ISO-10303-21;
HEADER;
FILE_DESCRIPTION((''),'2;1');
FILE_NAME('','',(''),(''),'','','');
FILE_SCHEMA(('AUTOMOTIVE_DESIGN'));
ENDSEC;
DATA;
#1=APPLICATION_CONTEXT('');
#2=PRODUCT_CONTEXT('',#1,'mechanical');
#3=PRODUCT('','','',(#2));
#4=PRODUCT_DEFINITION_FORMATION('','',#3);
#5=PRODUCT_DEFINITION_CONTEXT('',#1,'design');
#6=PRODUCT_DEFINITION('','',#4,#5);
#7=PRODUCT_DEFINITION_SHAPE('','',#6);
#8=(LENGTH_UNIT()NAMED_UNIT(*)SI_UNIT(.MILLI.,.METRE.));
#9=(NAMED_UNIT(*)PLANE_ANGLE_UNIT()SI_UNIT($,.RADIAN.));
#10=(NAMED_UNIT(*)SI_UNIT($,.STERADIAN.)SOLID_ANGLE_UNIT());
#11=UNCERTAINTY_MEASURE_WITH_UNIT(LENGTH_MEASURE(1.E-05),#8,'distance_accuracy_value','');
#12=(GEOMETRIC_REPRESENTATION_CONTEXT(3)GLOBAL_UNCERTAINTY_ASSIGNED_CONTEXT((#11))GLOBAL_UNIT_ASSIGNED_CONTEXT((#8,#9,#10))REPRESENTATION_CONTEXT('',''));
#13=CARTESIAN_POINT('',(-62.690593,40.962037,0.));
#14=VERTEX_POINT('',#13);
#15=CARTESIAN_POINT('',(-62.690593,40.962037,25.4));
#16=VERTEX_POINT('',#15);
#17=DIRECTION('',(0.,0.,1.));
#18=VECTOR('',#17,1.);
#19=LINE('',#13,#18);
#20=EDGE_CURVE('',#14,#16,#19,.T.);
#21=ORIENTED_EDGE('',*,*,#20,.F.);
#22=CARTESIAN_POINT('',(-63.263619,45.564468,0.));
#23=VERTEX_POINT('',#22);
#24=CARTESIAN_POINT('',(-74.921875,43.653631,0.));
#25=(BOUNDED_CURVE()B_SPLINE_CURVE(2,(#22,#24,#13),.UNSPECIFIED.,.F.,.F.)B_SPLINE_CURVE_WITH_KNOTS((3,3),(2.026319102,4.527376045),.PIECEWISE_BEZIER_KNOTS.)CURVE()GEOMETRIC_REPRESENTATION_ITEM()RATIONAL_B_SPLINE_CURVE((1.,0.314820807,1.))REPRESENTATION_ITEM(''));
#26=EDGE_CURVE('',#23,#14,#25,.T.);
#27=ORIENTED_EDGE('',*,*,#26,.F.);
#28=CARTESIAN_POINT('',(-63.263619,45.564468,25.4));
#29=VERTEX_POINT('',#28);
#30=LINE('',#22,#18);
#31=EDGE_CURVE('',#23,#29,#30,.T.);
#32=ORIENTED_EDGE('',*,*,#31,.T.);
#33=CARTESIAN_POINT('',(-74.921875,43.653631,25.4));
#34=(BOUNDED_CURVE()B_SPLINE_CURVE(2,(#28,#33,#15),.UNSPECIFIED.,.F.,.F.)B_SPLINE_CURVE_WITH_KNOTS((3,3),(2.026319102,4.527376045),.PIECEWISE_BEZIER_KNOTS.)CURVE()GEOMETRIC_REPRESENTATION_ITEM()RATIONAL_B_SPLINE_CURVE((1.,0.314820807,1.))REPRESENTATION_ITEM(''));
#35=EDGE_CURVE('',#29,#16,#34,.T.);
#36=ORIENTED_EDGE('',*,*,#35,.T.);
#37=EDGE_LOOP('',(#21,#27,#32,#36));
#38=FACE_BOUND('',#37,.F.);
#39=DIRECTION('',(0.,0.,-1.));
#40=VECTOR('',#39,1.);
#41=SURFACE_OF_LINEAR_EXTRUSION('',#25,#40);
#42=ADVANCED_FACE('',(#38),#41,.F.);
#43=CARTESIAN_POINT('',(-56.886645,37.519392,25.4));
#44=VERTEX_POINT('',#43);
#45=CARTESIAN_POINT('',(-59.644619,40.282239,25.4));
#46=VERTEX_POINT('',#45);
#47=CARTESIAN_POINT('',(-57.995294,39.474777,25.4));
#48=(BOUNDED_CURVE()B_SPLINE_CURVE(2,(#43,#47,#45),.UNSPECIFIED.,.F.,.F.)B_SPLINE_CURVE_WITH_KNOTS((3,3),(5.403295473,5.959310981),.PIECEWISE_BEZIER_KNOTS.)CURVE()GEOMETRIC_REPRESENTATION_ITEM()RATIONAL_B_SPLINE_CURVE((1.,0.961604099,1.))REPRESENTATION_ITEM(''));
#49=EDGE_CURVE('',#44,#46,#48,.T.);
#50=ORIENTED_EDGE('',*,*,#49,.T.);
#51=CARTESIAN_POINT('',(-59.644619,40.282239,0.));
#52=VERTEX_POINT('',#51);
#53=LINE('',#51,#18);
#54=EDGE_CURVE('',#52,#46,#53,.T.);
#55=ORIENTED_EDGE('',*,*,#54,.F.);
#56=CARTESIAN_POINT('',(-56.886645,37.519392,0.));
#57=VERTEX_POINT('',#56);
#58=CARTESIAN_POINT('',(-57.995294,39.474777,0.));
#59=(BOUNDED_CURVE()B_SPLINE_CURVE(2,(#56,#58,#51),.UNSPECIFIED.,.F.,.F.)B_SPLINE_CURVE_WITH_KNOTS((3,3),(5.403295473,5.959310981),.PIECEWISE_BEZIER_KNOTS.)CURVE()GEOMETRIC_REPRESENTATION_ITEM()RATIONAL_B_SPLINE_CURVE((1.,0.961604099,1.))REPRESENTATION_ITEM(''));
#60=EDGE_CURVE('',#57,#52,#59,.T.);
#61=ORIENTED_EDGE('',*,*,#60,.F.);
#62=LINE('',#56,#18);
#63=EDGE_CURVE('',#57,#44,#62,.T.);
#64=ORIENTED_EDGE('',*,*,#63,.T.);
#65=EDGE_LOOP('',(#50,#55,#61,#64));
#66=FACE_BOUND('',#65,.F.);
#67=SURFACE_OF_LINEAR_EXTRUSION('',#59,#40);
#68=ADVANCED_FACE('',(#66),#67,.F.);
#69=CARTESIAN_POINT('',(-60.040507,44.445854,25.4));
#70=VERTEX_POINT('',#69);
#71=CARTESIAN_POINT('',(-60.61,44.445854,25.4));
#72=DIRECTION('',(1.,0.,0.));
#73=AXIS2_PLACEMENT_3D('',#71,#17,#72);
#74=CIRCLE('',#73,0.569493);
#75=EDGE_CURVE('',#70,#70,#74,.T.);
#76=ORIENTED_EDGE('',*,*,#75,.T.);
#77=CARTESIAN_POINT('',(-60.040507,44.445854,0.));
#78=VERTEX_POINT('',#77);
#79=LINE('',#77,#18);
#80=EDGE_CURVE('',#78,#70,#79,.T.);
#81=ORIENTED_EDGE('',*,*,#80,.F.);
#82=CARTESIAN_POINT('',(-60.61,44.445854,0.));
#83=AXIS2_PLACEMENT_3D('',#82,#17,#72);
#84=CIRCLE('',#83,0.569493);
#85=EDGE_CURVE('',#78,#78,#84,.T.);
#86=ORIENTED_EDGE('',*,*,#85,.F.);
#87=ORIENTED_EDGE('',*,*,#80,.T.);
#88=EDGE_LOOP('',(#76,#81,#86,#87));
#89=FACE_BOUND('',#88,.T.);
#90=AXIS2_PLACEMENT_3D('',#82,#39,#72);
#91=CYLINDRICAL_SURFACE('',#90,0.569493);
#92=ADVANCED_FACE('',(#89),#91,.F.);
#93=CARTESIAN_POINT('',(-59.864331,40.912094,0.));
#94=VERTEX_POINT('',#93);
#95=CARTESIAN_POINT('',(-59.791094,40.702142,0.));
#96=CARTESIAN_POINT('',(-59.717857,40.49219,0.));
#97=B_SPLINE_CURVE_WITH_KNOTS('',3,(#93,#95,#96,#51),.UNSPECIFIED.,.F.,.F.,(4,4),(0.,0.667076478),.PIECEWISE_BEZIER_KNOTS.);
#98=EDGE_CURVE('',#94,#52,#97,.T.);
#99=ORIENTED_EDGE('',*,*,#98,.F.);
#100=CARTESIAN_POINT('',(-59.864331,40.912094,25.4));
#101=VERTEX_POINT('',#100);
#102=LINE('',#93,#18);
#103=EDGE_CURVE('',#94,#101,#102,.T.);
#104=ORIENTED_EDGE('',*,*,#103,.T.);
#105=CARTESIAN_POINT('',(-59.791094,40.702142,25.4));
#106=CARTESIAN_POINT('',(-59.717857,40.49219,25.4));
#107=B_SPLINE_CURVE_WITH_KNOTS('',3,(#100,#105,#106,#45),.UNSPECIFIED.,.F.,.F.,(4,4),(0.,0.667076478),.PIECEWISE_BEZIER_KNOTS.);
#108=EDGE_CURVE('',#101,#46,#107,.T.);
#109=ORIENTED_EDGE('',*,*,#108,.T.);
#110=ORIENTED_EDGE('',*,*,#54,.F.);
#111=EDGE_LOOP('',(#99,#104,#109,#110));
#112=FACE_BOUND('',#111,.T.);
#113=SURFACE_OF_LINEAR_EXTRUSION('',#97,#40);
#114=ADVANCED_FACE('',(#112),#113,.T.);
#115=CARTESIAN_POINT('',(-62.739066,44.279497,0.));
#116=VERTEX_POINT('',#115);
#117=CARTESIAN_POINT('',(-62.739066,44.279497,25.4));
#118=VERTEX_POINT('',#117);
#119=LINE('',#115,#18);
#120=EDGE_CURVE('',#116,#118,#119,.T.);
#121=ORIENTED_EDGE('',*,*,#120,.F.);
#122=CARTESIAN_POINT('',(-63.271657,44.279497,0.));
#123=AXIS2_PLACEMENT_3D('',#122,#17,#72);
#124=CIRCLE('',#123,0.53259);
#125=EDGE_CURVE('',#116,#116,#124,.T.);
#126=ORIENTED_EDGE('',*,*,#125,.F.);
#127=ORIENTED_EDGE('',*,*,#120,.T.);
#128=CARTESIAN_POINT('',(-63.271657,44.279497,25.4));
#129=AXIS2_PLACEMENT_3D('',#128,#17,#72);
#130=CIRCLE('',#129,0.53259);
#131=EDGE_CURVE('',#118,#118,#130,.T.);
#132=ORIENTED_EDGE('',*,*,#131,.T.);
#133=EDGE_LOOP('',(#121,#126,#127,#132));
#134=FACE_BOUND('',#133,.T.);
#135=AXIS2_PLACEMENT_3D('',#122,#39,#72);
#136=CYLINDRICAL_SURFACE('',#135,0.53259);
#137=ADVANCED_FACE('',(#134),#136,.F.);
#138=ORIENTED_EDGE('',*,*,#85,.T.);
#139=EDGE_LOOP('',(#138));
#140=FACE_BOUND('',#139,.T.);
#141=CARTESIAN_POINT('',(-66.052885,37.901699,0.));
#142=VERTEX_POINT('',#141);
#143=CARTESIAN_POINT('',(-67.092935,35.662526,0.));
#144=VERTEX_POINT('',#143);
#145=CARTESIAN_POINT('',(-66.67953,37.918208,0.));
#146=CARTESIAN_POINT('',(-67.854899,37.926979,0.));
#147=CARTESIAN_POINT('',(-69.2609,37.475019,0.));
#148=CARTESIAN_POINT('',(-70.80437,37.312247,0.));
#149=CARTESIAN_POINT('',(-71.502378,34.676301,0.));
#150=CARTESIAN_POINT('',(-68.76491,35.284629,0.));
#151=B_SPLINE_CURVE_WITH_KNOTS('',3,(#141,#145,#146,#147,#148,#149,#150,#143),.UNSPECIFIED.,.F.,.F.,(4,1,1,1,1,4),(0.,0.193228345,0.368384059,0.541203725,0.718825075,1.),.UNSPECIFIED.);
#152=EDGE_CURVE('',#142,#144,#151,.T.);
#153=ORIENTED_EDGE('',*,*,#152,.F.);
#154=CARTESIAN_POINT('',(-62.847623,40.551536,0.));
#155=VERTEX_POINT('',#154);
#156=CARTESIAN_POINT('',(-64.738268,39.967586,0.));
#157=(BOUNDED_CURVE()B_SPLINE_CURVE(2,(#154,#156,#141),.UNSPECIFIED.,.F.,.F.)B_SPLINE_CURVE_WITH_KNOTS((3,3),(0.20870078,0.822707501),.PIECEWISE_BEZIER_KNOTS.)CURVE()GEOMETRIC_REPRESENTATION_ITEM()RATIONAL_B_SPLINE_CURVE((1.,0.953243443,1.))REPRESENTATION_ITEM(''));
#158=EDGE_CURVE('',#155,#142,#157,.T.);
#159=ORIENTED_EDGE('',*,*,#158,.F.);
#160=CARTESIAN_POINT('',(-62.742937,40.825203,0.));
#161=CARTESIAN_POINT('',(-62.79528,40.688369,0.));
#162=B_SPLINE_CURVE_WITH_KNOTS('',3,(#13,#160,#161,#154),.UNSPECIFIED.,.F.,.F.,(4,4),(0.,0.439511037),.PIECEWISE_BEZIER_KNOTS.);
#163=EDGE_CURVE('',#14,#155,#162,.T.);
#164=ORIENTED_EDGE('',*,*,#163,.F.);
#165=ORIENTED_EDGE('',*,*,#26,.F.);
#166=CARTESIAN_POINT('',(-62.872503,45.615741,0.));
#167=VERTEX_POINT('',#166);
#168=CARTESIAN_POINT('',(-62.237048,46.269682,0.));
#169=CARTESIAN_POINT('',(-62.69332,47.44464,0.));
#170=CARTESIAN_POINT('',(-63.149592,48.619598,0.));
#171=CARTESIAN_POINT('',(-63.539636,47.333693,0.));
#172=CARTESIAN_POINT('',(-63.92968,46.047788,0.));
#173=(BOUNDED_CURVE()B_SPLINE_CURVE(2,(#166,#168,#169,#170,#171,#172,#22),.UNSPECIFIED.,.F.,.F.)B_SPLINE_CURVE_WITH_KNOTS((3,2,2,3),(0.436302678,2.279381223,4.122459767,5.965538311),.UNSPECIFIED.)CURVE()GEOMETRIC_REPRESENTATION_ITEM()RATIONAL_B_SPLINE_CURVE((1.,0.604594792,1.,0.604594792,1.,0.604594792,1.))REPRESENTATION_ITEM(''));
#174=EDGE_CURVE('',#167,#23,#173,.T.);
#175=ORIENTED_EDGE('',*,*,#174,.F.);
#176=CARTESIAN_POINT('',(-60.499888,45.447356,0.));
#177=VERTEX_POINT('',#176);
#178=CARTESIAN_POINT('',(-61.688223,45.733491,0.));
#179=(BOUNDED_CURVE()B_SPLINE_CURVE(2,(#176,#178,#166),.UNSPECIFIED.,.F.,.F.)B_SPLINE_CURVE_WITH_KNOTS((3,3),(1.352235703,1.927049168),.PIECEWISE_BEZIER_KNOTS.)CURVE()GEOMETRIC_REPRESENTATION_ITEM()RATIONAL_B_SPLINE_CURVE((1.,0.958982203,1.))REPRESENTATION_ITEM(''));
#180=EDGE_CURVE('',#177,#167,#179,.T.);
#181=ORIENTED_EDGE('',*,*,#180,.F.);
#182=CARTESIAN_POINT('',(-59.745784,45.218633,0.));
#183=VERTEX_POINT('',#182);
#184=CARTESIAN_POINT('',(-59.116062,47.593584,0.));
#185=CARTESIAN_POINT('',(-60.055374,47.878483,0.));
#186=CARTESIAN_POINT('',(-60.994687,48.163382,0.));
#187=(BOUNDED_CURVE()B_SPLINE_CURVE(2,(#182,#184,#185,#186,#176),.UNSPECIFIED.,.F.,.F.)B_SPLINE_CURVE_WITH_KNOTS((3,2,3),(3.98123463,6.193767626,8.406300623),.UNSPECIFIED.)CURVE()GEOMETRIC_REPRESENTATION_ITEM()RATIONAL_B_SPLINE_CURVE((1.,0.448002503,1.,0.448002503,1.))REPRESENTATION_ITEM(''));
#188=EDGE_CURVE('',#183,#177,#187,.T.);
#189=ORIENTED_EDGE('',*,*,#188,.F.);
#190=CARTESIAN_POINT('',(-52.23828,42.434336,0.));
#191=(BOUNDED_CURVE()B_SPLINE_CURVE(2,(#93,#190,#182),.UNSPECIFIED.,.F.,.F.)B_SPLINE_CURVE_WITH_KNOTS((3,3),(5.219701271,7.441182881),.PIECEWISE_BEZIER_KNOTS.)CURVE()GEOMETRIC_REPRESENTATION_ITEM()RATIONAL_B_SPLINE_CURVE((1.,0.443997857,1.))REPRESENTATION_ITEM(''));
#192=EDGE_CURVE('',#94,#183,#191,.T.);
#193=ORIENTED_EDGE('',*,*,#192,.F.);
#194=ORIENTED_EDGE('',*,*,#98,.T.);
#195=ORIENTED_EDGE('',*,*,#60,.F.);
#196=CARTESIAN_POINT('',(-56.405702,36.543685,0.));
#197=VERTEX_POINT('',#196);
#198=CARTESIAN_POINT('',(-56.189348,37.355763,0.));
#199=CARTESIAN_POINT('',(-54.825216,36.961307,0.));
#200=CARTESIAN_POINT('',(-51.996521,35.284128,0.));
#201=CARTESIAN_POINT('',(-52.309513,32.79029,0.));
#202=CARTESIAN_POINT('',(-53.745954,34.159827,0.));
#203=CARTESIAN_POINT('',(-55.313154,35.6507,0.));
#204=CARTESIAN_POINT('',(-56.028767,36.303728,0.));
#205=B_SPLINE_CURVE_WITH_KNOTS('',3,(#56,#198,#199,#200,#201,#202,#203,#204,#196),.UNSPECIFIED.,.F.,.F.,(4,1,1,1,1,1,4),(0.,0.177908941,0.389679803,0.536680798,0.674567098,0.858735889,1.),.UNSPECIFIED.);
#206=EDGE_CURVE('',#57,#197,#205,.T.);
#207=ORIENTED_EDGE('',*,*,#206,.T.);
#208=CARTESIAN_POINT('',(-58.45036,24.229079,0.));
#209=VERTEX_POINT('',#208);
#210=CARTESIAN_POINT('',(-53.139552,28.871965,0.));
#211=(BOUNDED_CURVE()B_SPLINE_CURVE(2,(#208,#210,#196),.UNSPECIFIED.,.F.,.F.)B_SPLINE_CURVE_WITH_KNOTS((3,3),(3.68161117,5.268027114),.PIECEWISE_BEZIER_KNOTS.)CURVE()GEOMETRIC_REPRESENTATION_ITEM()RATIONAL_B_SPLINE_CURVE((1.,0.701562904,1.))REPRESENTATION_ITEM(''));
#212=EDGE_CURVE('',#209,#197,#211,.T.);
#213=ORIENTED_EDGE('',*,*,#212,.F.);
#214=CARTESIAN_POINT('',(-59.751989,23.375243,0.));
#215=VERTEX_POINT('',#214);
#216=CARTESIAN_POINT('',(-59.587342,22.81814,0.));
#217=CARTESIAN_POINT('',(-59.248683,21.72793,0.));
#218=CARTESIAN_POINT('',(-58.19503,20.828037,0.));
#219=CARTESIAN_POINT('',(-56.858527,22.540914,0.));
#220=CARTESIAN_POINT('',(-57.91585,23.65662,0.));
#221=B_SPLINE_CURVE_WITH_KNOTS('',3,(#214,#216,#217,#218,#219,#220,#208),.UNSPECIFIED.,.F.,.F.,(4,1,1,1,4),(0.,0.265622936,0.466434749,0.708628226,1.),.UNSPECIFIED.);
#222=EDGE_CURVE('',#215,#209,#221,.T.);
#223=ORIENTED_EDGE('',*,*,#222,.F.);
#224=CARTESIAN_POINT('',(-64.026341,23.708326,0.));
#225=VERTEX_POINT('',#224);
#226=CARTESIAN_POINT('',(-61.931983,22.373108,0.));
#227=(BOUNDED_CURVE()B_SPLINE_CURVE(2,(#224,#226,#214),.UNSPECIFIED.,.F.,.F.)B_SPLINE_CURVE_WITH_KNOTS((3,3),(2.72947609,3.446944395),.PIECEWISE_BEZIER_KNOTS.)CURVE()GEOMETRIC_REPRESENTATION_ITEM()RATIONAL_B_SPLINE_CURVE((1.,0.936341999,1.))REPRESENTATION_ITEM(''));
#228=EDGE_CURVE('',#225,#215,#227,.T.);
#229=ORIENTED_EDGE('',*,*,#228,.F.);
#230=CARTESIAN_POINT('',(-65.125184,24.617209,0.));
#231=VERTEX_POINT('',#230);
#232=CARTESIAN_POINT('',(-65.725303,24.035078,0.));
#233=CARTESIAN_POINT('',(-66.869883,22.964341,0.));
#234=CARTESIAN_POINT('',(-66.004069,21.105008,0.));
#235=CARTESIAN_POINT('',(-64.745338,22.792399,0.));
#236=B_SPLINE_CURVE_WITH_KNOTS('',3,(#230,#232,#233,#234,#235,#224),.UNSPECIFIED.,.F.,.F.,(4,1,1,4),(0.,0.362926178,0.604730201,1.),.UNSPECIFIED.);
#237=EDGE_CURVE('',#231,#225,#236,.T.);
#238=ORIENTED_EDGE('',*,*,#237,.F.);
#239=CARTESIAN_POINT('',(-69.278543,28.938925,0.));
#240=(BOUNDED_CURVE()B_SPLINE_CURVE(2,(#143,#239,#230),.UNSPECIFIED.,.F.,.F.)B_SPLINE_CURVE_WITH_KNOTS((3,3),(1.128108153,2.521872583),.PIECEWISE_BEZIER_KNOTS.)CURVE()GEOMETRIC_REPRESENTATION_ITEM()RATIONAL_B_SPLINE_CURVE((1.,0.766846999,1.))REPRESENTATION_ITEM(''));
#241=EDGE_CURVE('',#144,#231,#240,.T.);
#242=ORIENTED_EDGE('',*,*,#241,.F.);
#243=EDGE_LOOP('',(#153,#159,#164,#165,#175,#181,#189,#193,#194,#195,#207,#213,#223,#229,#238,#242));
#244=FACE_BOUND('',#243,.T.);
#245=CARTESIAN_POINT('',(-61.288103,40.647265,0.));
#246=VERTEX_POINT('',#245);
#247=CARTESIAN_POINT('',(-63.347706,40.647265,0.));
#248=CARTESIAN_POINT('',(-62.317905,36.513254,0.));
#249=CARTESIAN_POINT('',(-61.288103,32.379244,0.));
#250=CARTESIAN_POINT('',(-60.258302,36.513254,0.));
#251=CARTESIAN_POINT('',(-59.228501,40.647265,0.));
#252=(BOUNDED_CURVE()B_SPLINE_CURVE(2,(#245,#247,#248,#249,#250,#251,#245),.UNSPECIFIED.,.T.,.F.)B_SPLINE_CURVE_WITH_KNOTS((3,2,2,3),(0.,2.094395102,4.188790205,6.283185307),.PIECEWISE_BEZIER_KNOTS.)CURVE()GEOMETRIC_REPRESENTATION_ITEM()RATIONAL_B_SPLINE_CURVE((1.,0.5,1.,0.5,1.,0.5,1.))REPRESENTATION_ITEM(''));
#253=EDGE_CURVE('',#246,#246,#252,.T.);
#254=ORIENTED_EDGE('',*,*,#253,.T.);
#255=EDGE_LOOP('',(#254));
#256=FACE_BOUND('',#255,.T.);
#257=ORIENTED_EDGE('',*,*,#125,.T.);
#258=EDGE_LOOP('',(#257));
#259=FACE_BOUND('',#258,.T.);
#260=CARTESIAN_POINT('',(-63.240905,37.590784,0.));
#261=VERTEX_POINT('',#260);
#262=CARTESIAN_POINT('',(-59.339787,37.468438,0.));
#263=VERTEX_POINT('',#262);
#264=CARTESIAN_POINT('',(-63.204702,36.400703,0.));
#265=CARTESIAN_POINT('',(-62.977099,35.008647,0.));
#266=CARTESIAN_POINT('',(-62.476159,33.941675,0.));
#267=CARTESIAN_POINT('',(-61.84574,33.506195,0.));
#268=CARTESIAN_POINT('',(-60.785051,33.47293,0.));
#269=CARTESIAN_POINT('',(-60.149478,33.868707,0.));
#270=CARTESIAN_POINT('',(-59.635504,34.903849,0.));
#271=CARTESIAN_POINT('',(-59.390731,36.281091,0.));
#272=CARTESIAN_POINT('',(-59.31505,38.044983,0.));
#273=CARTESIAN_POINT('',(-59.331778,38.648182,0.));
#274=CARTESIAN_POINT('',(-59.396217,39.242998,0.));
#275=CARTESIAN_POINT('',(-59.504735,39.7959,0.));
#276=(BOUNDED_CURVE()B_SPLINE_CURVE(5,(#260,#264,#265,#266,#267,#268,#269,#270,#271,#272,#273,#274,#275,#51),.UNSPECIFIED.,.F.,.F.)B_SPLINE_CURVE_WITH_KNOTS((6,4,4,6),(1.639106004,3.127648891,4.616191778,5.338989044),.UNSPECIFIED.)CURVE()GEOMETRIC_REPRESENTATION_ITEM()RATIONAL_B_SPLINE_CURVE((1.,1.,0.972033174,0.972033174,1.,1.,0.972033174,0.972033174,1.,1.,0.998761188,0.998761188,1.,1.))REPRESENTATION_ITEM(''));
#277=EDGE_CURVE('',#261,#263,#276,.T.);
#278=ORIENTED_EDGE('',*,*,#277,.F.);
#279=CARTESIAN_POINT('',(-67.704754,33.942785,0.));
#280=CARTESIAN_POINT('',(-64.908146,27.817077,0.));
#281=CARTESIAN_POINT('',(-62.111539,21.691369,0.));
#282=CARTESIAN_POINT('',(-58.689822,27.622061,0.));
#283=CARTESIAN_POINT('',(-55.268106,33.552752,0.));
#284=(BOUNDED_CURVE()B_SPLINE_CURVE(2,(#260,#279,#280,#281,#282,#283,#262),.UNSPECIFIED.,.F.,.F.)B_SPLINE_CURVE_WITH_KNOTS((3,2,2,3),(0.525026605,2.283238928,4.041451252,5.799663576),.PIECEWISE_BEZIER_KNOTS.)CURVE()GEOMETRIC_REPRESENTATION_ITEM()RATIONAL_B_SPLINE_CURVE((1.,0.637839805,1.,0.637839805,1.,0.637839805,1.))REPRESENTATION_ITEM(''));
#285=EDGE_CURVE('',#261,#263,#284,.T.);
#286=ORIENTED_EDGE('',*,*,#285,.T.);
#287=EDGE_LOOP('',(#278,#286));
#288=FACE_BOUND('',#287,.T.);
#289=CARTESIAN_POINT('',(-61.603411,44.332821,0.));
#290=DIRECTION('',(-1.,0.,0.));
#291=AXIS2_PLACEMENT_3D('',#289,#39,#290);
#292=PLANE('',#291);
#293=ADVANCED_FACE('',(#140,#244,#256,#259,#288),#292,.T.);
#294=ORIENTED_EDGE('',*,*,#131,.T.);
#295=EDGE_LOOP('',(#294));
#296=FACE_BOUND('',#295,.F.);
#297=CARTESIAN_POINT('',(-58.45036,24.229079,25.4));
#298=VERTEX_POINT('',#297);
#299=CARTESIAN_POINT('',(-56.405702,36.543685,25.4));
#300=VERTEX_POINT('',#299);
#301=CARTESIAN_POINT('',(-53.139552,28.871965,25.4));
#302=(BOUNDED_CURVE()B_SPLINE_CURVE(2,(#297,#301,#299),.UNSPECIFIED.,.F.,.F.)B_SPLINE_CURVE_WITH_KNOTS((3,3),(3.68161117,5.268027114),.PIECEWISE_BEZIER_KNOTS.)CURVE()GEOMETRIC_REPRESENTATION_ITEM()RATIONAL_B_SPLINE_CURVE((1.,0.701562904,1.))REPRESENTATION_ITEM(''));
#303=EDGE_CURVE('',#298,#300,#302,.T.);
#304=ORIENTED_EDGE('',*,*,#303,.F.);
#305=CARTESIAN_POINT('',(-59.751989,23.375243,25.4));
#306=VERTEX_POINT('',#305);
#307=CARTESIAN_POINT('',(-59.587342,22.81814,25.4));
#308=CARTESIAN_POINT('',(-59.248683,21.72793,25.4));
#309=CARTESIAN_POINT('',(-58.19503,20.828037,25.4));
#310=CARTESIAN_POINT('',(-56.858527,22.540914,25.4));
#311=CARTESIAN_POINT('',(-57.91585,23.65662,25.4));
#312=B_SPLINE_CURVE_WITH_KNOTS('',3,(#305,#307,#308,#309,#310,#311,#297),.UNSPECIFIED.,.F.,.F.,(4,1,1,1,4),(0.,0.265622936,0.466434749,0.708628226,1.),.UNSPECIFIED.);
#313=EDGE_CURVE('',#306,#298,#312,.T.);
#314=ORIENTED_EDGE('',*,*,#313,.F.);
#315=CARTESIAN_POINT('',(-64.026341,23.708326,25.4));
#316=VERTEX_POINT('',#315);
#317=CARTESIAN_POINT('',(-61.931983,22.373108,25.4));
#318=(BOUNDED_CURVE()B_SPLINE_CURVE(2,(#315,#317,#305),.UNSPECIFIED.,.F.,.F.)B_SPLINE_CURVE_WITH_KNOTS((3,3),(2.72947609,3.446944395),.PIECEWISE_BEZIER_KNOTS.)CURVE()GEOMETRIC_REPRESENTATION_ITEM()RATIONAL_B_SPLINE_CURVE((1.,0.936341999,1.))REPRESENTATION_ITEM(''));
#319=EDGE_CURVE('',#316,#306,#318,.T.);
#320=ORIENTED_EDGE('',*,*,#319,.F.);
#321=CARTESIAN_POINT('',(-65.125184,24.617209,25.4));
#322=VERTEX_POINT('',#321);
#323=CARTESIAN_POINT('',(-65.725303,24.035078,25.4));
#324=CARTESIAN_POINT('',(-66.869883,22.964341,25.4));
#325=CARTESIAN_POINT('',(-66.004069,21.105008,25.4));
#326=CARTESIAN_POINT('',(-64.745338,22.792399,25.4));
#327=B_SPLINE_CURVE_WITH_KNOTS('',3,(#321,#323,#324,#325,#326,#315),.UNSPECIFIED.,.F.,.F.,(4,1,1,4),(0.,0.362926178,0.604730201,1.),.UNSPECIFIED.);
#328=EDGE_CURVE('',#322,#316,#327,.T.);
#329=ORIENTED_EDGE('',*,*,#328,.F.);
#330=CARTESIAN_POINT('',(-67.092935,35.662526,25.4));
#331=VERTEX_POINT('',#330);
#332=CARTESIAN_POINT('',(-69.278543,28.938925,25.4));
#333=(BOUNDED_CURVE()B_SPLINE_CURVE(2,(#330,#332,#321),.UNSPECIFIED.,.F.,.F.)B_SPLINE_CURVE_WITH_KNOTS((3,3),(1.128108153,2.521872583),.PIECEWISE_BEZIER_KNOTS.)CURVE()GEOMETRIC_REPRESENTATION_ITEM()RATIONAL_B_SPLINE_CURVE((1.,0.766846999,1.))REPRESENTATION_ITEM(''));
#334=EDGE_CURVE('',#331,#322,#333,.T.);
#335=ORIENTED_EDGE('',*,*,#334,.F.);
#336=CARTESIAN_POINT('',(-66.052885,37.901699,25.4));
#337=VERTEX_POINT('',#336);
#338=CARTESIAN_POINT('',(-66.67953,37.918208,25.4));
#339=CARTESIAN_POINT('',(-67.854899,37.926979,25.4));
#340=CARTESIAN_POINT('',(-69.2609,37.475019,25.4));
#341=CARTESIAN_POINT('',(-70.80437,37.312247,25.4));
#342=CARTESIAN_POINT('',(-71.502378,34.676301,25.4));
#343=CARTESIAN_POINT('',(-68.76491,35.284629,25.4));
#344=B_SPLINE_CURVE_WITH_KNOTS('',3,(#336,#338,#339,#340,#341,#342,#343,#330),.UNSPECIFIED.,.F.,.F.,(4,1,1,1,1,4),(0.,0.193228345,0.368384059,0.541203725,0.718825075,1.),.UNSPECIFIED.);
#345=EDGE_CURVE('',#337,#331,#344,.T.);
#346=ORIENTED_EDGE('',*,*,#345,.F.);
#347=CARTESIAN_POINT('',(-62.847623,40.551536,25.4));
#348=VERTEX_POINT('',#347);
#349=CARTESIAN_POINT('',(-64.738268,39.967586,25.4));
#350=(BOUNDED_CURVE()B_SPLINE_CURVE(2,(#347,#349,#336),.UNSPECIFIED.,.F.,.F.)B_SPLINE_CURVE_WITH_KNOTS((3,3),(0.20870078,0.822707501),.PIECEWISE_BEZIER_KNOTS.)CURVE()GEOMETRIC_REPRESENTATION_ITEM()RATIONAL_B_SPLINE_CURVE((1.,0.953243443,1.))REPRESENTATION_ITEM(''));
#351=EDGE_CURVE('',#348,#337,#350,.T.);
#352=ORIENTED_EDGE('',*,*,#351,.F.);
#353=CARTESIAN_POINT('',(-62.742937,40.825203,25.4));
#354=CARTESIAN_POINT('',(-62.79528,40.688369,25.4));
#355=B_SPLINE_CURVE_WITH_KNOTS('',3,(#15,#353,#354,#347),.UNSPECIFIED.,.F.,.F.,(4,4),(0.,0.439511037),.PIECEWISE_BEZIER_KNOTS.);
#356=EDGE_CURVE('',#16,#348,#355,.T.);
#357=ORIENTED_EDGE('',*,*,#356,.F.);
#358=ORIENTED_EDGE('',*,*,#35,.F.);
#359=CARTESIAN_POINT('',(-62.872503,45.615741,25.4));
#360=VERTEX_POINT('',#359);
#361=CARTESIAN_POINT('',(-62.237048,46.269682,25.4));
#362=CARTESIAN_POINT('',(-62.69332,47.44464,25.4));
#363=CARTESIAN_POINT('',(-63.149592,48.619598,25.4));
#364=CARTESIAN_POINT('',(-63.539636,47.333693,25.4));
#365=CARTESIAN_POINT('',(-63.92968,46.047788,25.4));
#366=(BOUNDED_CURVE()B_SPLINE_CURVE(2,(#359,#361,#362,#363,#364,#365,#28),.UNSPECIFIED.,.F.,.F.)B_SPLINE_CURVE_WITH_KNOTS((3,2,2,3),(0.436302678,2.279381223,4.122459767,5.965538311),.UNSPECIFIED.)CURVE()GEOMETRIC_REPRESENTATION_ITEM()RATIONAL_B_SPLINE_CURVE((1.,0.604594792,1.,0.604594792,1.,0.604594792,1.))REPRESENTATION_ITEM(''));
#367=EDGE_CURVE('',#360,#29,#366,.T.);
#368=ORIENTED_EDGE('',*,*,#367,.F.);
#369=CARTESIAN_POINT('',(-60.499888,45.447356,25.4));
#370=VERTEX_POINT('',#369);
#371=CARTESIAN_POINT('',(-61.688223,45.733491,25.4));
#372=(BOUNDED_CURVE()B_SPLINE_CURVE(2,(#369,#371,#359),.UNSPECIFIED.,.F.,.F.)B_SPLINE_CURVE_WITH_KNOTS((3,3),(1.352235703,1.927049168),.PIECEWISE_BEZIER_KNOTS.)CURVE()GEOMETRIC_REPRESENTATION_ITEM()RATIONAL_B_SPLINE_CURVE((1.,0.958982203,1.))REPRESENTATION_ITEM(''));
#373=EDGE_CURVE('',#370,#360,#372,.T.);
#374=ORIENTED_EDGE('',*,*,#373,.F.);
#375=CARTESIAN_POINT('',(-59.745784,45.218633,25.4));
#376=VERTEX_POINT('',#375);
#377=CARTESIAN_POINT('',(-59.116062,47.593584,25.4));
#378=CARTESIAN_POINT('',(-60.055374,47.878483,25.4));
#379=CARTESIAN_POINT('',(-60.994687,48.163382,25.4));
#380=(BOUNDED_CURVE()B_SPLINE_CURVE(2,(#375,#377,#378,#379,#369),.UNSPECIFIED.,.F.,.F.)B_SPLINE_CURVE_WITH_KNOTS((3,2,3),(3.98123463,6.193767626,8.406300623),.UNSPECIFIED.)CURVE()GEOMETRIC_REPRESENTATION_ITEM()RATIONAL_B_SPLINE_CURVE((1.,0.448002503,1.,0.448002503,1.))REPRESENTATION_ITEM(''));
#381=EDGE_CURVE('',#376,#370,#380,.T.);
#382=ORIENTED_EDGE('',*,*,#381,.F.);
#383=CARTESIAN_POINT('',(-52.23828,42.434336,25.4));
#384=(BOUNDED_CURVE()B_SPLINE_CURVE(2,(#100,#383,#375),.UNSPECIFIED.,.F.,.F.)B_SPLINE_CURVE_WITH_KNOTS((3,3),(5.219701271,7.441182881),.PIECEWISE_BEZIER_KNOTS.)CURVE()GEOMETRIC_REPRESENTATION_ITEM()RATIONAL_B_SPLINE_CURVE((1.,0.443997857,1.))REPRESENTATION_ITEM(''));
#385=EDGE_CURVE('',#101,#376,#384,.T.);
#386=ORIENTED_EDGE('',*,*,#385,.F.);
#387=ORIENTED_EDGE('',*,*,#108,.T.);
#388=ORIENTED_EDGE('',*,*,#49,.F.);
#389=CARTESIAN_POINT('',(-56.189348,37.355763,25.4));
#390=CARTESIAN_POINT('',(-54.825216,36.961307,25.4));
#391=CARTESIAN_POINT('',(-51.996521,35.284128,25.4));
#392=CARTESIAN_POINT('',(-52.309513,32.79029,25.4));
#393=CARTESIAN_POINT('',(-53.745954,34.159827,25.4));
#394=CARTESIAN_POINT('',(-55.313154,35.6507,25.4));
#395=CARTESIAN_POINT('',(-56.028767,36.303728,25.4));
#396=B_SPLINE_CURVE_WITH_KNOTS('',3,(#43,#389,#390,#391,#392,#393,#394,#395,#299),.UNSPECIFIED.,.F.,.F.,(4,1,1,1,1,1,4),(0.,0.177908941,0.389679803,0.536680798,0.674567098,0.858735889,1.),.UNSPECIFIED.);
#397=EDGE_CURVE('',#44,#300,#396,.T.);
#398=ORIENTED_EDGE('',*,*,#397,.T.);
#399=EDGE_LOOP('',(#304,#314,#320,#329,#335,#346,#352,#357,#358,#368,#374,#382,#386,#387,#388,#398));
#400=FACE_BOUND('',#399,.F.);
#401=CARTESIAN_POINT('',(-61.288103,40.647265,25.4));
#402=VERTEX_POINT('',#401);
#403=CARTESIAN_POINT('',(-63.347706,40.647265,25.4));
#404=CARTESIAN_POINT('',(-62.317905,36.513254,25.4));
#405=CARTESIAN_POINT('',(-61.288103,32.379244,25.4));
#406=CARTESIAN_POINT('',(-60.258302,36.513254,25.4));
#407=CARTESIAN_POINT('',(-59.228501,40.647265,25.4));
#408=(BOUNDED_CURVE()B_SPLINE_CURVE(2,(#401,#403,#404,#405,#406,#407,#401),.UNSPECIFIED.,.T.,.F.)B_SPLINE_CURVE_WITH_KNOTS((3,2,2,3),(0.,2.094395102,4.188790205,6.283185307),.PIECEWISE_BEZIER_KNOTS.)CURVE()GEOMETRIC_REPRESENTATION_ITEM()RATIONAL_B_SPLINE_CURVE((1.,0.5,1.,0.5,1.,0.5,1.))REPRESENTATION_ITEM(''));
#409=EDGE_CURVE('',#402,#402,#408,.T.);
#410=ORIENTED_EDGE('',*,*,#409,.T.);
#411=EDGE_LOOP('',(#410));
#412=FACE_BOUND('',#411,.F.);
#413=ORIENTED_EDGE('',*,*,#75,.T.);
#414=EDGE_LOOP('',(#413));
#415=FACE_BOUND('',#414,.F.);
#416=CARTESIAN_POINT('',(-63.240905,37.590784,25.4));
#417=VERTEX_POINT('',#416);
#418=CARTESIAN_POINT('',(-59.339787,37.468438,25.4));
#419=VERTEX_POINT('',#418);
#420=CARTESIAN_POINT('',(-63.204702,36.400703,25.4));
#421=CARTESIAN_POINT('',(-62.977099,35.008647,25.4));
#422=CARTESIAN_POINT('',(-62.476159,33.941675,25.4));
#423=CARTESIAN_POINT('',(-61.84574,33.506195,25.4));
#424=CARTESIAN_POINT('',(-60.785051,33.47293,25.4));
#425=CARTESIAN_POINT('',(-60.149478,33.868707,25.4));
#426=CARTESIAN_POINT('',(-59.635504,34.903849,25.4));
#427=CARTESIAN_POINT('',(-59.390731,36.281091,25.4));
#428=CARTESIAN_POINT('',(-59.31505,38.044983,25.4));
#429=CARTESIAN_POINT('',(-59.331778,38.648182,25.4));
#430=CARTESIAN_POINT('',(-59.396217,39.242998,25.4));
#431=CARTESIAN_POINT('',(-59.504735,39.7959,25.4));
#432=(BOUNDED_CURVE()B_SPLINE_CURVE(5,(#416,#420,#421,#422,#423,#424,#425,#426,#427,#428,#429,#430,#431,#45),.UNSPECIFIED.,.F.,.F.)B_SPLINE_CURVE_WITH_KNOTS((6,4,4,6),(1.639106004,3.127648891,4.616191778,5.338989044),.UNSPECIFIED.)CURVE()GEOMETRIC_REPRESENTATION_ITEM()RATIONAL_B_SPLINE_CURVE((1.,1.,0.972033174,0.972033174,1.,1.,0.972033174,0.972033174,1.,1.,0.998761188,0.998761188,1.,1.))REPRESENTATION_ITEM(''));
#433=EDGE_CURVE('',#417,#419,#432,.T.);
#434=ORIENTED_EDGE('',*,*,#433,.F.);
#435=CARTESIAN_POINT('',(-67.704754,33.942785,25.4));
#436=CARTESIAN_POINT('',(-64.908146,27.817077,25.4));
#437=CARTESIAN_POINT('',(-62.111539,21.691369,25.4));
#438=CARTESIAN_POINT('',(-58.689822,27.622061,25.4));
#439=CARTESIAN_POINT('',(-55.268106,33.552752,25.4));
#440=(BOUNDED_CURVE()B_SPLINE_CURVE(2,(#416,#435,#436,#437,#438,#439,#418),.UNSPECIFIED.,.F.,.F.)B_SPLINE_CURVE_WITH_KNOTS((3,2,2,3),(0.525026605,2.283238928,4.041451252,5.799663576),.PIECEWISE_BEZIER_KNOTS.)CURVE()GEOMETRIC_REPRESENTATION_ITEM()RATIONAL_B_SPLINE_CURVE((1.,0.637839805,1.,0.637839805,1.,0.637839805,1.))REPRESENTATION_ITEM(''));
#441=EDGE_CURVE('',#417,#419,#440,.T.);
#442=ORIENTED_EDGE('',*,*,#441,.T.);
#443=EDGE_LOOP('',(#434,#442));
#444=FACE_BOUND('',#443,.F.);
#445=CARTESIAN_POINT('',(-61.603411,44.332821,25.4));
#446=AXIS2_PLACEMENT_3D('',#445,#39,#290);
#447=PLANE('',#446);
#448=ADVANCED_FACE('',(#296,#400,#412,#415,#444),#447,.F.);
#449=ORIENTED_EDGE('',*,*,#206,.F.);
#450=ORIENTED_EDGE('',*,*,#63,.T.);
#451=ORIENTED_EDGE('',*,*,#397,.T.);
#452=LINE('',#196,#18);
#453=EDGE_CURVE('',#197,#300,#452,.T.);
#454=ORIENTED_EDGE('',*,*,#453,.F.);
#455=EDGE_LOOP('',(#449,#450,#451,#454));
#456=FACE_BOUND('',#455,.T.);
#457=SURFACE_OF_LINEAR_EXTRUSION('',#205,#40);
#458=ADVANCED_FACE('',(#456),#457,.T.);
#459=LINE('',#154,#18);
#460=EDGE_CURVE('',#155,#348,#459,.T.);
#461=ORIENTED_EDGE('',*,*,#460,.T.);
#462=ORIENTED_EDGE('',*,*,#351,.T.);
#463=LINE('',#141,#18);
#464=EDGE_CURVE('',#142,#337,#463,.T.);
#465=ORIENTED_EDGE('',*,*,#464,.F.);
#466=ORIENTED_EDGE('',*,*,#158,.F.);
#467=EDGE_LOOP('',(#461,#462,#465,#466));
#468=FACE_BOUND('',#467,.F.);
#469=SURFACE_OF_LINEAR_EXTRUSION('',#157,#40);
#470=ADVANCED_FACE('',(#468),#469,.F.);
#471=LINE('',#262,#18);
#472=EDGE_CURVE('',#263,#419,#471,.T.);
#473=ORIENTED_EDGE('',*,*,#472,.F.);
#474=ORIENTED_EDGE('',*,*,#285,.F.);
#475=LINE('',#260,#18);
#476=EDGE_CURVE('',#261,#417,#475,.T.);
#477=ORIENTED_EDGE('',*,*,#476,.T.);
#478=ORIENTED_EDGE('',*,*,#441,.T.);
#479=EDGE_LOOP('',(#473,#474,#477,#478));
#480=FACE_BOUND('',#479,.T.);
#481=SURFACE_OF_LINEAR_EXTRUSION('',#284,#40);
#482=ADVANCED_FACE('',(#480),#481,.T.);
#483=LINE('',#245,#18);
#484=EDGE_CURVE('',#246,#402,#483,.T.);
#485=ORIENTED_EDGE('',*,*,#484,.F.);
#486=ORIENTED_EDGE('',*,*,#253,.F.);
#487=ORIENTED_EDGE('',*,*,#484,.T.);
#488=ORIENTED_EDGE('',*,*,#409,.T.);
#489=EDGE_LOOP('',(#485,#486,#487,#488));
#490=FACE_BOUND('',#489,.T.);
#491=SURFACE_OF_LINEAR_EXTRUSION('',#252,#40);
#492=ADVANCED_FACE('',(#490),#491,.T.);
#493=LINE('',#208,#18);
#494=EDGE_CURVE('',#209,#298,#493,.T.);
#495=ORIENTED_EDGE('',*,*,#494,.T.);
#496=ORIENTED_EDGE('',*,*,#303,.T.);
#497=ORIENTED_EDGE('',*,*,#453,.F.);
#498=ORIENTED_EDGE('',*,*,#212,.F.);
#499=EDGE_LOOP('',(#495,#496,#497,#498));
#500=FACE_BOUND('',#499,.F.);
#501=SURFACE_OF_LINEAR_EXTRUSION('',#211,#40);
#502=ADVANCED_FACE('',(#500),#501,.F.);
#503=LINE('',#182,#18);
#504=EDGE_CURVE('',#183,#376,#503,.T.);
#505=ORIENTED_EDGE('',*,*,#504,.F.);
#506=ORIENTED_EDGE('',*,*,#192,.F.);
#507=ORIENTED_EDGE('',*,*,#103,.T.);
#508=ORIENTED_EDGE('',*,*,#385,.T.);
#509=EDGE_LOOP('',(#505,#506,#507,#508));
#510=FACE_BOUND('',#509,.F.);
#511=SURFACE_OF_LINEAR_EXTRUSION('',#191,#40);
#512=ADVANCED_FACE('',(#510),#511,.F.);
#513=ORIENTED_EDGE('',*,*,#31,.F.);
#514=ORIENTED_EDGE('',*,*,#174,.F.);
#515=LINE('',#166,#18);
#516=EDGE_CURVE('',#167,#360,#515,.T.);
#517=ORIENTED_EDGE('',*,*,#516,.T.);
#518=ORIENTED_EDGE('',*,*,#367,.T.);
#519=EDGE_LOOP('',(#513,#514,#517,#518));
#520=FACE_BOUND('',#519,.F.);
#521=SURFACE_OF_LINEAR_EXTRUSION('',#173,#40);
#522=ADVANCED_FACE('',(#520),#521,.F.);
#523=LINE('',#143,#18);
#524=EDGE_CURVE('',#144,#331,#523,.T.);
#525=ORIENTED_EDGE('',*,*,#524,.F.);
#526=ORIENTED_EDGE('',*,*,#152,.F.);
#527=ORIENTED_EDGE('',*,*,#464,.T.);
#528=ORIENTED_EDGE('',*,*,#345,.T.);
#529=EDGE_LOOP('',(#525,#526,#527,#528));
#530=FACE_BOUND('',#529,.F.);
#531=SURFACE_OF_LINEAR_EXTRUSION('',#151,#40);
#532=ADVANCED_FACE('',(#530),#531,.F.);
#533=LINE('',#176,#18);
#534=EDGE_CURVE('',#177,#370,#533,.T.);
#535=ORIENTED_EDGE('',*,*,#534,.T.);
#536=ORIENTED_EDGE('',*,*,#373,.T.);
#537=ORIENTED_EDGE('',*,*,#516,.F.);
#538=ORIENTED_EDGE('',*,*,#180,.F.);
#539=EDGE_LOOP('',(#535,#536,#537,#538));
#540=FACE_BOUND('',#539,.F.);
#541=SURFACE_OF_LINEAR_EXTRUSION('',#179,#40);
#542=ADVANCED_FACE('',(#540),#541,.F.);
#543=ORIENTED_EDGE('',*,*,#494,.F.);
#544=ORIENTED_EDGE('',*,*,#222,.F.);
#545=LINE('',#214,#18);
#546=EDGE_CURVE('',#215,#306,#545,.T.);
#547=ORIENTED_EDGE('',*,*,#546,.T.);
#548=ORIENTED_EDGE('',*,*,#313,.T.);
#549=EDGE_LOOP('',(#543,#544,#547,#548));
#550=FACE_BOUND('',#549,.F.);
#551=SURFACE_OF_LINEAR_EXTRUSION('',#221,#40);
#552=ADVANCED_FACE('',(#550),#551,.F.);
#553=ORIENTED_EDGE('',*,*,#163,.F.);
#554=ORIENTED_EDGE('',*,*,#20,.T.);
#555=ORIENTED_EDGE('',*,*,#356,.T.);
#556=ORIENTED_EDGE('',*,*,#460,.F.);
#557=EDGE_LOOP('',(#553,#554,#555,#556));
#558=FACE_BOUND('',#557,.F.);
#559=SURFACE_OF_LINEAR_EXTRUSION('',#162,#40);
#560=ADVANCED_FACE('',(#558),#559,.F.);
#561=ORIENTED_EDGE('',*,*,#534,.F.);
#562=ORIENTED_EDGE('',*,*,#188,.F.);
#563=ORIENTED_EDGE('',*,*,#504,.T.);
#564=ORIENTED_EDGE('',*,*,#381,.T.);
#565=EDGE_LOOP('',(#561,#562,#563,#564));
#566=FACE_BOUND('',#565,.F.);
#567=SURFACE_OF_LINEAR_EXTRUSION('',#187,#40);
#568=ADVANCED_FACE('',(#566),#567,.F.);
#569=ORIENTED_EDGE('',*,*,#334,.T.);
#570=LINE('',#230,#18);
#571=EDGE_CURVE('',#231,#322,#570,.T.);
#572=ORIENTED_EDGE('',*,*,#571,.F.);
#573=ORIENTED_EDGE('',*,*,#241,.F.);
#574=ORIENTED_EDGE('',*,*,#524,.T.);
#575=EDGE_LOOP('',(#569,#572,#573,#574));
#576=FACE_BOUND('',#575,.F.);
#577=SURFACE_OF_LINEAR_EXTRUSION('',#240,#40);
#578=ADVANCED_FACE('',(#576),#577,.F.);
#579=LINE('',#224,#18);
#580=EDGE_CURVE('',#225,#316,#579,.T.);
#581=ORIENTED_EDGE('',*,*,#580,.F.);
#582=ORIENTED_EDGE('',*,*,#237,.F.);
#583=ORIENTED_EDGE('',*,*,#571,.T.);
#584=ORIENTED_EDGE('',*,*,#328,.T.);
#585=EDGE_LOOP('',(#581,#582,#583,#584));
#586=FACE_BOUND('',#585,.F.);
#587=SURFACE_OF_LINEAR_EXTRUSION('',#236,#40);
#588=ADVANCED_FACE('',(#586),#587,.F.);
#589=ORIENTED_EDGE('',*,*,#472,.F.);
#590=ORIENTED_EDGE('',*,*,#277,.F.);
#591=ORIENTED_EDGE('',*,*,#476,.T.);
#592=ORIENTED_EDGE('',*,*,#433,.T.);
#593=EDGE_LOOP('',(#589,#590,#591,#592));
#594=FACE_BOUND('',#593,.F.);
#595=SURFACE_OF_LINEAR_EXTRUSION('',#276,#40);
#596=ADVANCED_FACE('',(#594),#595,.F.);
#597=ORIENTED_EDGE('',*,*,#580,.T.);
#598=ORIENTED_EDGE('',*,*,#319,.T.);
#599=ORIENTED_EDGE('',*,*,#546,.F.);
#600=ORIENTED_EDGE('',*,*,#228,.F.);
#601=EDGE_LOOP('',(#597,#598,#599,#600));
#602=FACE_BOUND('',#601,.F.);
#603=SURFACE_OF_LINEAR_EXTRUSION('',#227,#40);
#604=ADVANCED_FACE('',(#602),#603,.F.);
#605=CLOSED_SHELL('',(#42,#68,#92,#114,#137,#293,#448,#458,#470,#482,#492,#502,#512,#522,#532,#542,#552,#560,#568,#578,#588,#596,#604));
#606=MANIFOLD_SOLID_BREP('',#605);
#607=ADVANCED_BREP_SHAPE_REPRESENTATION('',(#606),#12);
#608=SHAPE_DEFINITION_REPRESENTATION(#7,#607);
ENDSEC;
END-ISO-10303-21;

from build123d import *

# Parameters (mm, degrees)
F0_R     = 0.5325903999
F0_R_2   = 0.569492944
F1_DEPTH = 25.4


with BuildPart() as f1:
    # F0 (on Top) → F1 (new body)
    with BuildSketch(Plane.XY):
        with BuildLine():
            add(Edge.make_bspline(
                [(-59.8643314165, 40.9120938361), (-61.2658765164, 44.2532785614), (-62.6905932736, 40.9620371329)],
                knots=[5.4686720631, 5.4686720631, 5.4686720631, 7.0819842237, 7.0819842237, 7.0819842237], degree=2, weights=[1, 0.6919165317, 1]))
            add(Edge.make_bspline(
                [(-59.8643314165, 40.9120938361), (-52.2382796443, 42.4343358511), (-59.7457841639, 45.2186326104)],
                knots=[5.2197012715, 5.2197012715, 5.2197012715, 7.4411828809, 7.4411828809, 7.4411828809], degree=2, weights=[1, 0.443997857, 1]))
            add(Edge.make_bspline(
                [(-59.7457841639, 45.2186326104), (-59.1160616036, 47.5935844983), (-60.0553744049, 47.8784832648), (-60.9946872062, 48.1633820314), (-60.4998879349, 45.4473564539)],
                knots=[3.9812346301, 3.9812346301, 3.9812346301, 6.1937676263, 6.1937676263, 8.4063006226, 8.4063006226, 8.4063006226], degree=2, weights=[1, 0.4480025026, 1, 0.4480025026, 1]))
            add(Edge.make_bspline(
                [(-60.4998879349, 45.4473564539), (-61.6882230166, 45.7334909403), (-62.8725029055, 45.6157406025)],
                knots=[1.3522357029, 1.3522357029, 1.3522357029, 1.9270491675, 1.9270491675, 1.9270491675], degree=2, weights=[1, 0.9589822032, 1]))
            add(Edge.make_bspline(
                [(-62.8725029055, 45.6157406025), (-62.2370483777, 46.2696823091), (-62.6933201358, 47.4446403485), (-63.1495918939, 48.6195983879), (-63.5396358431, 47.3336931042), (-63.9296797922, 46.0477878206), (-63.2636187812, 45.564467504)],
                knots=[0.4363026783, 0.4363026783, 0.4363026783, 2.2793812226, 2.2793812226, 4.1224597668, 4.1224597668, 5.965538311, 5.965538311, 5.965538311], degree=2, weights=[1, 0.604594792, 1, 0.604594792, 1, 0.604594792, 1]))
            add(Edge.make_bspline(
                [(-63.2636187812, 45.564467504), (-74.9218754995, 43.6536306488), (-62.6905932736, 40.9620371329)],
                knots=[2.0263191021, 2.0263191021, 2.0263191021, 4.5273760446, 4.5273760446, 4.5273760446], degree=2, weights=[1, 0.3148208073, 1]))
        make_face()
        with Locations((-63.2716566324, 44.2794971168)):
            Circle(F0_R, mode=Mode.SUBTRACT)
        with Locations((-60.6100000441, 44.4458536804)):
            Circle(F0_R_2, mode=Mode.SUBTRACT)
        with BuildLine():
            add(Edge.make_bspline(
                [(-59.8643314165, 40.9120938361), (-59.7910940913, 40.7021420758), (-59.7178567661, 40.4921903156), (-59.644619441, 40.2822385553)],
                knots=[0, 0, 0, 0, 0.6670764777, 0.6670764777, 0.6670764777, 0.6670764777], degree=3))
            add(Edge.make_bspline(
                [(-59.8643314165, 40.9120938361), (-61.2658765164, 44.2532785614), (-62.6905932736, 40.9620371329)],
                knots=[5.4686720631, 5.4686720631, 5.4686720631, 7.0819842237, 7.0819842237, 7.0819842237], degree=2, weights=[1, 0.6919165317, 1]))
            add(Edge.make_bspline(
                [(-62.6905932736, 40.9620371329), (-62.7429366426, 40.8252032933), (-62.7952800116, 40.6883694537), (-62.8476233805, 40.5515356141)],
                knots=[0, 0, 0, 0, 0.4395110367, 0.4395110367, 0.4395110367, 0.4395110367], degree=3))
            add(Edge.make_bspline(
                [(-62.8476233805, 40.5515356141), (-63.2909814909, 39.2369202968), (-63.2409049569, 37.590783735)],
                knots=[0.9218879607, 0.9218879607, 0.9218879607, 1.6391060035, 1.6391060035, 1.6391060035], degree=2, weights=[1, 0.9363859241, 1]))
            add(Edge.make_bspline(
                [(-63.2409049569, 37.590783735), (-63.1178627803, 33.5460903578), (-61.3153956307, 33.4895621049), (-59.512928481, 33.433033852), (-59.3397866543, 37.4684384251)],
                knots=[1.6391060035, 1.6391060035, 1.6391060035, 3.1276488907, 3.1276488907, 4.6161917779, 4.6161917779, 4.6161917779], degree=2, weights=[1, 0.7355816479, 1, 0.7355816479, 1]))
            add(Edge.make_bspline(
                [(-59.3397866543, 37.4684384251), (-59.2742995949, 38.9947407867), (-59.644619441, 40.2822385553)],
                knots=[4.6161917779, 4.6161917779, 4.6161917779, 5.2865644404, 5.2865644404, 5.2865644404], degree=2, weights=[1, 0.9443490333, 1]))
        make_face()
        with BuildLine():
            add(Edge.make_bspline(
                [(-61.2881034613, 40.64726457), (-63.3477063556, 40.64726457), (-62.3179049084, 36.5132540464), (-61.2881034613, 32.3792435229), (-60.2583020141, 36.5132540464), (-59.228500567, 40.64726457), (-61.2881034613, 40.64726457)],
                knots=[0, 0, 0, 2.0943951024, 2.0943951024, 4.1887902048, 4.1887902048, 6.2831853072, 6.2831853072, 6.2831853072], degree=2, weights=[1, 0.5, 1, 0.5, 1, 0.5, 1]))
        make_face(mode=Mode.SUBTRACT)
        with BuildLine():
            add(Edge.make_bspline(
                [(-56.8866449756, 37.5193916261), (-57.9952938423, 39.4747769058), (-59.644619441, 40.2822385553)],
                knots=[5.4032954727, 5.4032954727, 5.4032954727, 5.9593109812, 5.9593109812, 5.9593109812], degree=2, weights=[1, 0.9616040991, 1]))
            add(Edge.make_bspline(
                [(-59.3397866543, 37.4684384251), (-59.2742995949, 38.9947407867), (-59.644619441, 40.2822385553)],
                knots=[4.6161917779, 4.6161917779, 4.6161917779, 5.2865644404, 5.2865644404, 5.2865644404], degree=2, weights=[1, 0.9443490333, 1]))
            add(Edge.make_bspline(
                [(-63.2409049569, 37.590783735), (-67.7047537985, 33.9427853859), (-64.908146491, 27.8170771538), (-62.1115391835, 21.6913689217), (-58.6898223696, 27.6220605629), (-55.2681055558, 33.5527522041), (-59.3397866543, 37.4684384251)],
                knots=[0.5250266048, 0.5250266048, 0.5250266048, 2.2832389285, 2.2832389285, 4.0414512522, 4.0414512522, 5.7996635759, 5.7996635759, 5.7996635759], degree=2, weights=[1, 0.6378398054, 1, 0.6378398054, 1, 0.6378398054, 1]))
            add(Edge.make_bspline(
                [(-62.8476233805, 40.5515356141), (-63.2909814909, 39.2369202968), (-63.2409049569, 37.590783735)],
                knots=[0.9218879607, 0.9218879607, 0.9218879607, 1.6391060035, 1.6391060035, 1.6391060035], degree=2, weights=[1, 0.9363859241, 1]))
            add(Edge.make_bspline(
                [(-62.8476233805, 40.5515356141), (-64.7382682491, 39.9675861838), (-66.0528848362, 37.9016987636)],
                knots=[0.2087007802, 0.2087007802, 0.2087007802, 0.8227075011, 0.8227075011, 0.8227075011], degree=2, weights=[1, 0.9532434434, 1]))
            add(Edge.make_bspline(
                [(-66.0528848362, 37.9016987636), (-66.6795302533, 37.9182075858), (-67.8548986958, 37.9269789249), (-69.2608995409, 37.4750193334), (-70.8043699374, 37.3122465752), (-71.5023775211, 34.6763005756), (-68.7649100656, 35.2846286088), (-67.0929351195, 35.6625256107)],
                knots=[0, 0, 0, 0, 0.1932283446, 0.3683840587, 0.541203725, 0.7188250754, 1, 1, 1, 1], degree=3))
            add(Edge.make_bspline(
                [(-67.0929351195, 35.6625256107), (-69.2785429163, 28.9389245972), (-65.1251841394, 24.617209309)],
                knots=[1.1281081534, 1.1281081534, 1.1281081534, 2.521872583, 2.521872583, 2.521872583], degree=2, weights=[1, 0.766846999, 1]))
            add(Edge.make_bspline(
                [(-65.1251841394, 24.617209309), (-65.7253031161, 24.0350782883), (-66.8698833161, 22.9643407127), (-66.0040685128, 21.1050077268), (-64.7453379674, 22.7923993869), (-64.0263408118, 23.7083257742)],
                knots=[0, 0, 0, 0, 0.3629261784, 0.6047302013, 1, 1, 1, 1], degree=3))
            add(Edge.make_bspline(
                [(-64.0263408118, 23.7083257742), (-61.9319834834, 22.3731079211), (-59.7519885866, 23.3752429405)],
                knots=[2.7294760899, 2.7294760899, 2.7294760899, 3.446944395, 3.446944395, 3.446944395], degree=2, weights=[1, 0.9363419992, 1]))
            add(Edge.make_bspline(
                [(-59.7519885866, 23.3752429405), (-59.5873423079, 22.8181401445), (-59.2486832705, 21.7279301537), (-58.1950304768, 20.8280369242), (-56.8585269953, 22.5409142055), (-57.9158500507, 23.6566204972), (-58.4503603423, 24.2290790224)],
                knots=[0, 0, 0, 0, 0.2656229364, 0.4664347492, 0.708628226, 1, 1, 1, 1], degree=3))
            add(Edge.make_bspline(
                [(-58.4503603423, 24.2290790224), (-53.1395517352, 28.8719652036), (-56.4057024902, 36.543684771)],
                knots=[3.6816111701, 3.6816111701, 3.6816111701, 5.2680271143, 5.2680271143, 5.2680271143], degree=2, weights=[1, 0.7015629044, 1]))
            add(Edge.make_bspline(
                [(-56.8866449756, 37.5193916261), (-56.1893483051, 37.3557625904), (-54.8252163122, 36.961306999), (-51.9965207965, 35.2841283363), (-52.3095126979, 32.7902904051), (-53.7459535682, 34.1598272481), (-55.3131544134, 35.6506997658), (-56.0287672582, 36.3037279076), (-56.4057024902, 36.543684771)],
                knots=[0, 0, 0, 0, 0.1779089411, 0.3896798025, 0.5366807976, 0.6745670983, 0.8587358893, 1, 1, 1, 1], degree=3))
        make_face()
    extrude(amount=F1_DEPTH)


solid = f1.part
